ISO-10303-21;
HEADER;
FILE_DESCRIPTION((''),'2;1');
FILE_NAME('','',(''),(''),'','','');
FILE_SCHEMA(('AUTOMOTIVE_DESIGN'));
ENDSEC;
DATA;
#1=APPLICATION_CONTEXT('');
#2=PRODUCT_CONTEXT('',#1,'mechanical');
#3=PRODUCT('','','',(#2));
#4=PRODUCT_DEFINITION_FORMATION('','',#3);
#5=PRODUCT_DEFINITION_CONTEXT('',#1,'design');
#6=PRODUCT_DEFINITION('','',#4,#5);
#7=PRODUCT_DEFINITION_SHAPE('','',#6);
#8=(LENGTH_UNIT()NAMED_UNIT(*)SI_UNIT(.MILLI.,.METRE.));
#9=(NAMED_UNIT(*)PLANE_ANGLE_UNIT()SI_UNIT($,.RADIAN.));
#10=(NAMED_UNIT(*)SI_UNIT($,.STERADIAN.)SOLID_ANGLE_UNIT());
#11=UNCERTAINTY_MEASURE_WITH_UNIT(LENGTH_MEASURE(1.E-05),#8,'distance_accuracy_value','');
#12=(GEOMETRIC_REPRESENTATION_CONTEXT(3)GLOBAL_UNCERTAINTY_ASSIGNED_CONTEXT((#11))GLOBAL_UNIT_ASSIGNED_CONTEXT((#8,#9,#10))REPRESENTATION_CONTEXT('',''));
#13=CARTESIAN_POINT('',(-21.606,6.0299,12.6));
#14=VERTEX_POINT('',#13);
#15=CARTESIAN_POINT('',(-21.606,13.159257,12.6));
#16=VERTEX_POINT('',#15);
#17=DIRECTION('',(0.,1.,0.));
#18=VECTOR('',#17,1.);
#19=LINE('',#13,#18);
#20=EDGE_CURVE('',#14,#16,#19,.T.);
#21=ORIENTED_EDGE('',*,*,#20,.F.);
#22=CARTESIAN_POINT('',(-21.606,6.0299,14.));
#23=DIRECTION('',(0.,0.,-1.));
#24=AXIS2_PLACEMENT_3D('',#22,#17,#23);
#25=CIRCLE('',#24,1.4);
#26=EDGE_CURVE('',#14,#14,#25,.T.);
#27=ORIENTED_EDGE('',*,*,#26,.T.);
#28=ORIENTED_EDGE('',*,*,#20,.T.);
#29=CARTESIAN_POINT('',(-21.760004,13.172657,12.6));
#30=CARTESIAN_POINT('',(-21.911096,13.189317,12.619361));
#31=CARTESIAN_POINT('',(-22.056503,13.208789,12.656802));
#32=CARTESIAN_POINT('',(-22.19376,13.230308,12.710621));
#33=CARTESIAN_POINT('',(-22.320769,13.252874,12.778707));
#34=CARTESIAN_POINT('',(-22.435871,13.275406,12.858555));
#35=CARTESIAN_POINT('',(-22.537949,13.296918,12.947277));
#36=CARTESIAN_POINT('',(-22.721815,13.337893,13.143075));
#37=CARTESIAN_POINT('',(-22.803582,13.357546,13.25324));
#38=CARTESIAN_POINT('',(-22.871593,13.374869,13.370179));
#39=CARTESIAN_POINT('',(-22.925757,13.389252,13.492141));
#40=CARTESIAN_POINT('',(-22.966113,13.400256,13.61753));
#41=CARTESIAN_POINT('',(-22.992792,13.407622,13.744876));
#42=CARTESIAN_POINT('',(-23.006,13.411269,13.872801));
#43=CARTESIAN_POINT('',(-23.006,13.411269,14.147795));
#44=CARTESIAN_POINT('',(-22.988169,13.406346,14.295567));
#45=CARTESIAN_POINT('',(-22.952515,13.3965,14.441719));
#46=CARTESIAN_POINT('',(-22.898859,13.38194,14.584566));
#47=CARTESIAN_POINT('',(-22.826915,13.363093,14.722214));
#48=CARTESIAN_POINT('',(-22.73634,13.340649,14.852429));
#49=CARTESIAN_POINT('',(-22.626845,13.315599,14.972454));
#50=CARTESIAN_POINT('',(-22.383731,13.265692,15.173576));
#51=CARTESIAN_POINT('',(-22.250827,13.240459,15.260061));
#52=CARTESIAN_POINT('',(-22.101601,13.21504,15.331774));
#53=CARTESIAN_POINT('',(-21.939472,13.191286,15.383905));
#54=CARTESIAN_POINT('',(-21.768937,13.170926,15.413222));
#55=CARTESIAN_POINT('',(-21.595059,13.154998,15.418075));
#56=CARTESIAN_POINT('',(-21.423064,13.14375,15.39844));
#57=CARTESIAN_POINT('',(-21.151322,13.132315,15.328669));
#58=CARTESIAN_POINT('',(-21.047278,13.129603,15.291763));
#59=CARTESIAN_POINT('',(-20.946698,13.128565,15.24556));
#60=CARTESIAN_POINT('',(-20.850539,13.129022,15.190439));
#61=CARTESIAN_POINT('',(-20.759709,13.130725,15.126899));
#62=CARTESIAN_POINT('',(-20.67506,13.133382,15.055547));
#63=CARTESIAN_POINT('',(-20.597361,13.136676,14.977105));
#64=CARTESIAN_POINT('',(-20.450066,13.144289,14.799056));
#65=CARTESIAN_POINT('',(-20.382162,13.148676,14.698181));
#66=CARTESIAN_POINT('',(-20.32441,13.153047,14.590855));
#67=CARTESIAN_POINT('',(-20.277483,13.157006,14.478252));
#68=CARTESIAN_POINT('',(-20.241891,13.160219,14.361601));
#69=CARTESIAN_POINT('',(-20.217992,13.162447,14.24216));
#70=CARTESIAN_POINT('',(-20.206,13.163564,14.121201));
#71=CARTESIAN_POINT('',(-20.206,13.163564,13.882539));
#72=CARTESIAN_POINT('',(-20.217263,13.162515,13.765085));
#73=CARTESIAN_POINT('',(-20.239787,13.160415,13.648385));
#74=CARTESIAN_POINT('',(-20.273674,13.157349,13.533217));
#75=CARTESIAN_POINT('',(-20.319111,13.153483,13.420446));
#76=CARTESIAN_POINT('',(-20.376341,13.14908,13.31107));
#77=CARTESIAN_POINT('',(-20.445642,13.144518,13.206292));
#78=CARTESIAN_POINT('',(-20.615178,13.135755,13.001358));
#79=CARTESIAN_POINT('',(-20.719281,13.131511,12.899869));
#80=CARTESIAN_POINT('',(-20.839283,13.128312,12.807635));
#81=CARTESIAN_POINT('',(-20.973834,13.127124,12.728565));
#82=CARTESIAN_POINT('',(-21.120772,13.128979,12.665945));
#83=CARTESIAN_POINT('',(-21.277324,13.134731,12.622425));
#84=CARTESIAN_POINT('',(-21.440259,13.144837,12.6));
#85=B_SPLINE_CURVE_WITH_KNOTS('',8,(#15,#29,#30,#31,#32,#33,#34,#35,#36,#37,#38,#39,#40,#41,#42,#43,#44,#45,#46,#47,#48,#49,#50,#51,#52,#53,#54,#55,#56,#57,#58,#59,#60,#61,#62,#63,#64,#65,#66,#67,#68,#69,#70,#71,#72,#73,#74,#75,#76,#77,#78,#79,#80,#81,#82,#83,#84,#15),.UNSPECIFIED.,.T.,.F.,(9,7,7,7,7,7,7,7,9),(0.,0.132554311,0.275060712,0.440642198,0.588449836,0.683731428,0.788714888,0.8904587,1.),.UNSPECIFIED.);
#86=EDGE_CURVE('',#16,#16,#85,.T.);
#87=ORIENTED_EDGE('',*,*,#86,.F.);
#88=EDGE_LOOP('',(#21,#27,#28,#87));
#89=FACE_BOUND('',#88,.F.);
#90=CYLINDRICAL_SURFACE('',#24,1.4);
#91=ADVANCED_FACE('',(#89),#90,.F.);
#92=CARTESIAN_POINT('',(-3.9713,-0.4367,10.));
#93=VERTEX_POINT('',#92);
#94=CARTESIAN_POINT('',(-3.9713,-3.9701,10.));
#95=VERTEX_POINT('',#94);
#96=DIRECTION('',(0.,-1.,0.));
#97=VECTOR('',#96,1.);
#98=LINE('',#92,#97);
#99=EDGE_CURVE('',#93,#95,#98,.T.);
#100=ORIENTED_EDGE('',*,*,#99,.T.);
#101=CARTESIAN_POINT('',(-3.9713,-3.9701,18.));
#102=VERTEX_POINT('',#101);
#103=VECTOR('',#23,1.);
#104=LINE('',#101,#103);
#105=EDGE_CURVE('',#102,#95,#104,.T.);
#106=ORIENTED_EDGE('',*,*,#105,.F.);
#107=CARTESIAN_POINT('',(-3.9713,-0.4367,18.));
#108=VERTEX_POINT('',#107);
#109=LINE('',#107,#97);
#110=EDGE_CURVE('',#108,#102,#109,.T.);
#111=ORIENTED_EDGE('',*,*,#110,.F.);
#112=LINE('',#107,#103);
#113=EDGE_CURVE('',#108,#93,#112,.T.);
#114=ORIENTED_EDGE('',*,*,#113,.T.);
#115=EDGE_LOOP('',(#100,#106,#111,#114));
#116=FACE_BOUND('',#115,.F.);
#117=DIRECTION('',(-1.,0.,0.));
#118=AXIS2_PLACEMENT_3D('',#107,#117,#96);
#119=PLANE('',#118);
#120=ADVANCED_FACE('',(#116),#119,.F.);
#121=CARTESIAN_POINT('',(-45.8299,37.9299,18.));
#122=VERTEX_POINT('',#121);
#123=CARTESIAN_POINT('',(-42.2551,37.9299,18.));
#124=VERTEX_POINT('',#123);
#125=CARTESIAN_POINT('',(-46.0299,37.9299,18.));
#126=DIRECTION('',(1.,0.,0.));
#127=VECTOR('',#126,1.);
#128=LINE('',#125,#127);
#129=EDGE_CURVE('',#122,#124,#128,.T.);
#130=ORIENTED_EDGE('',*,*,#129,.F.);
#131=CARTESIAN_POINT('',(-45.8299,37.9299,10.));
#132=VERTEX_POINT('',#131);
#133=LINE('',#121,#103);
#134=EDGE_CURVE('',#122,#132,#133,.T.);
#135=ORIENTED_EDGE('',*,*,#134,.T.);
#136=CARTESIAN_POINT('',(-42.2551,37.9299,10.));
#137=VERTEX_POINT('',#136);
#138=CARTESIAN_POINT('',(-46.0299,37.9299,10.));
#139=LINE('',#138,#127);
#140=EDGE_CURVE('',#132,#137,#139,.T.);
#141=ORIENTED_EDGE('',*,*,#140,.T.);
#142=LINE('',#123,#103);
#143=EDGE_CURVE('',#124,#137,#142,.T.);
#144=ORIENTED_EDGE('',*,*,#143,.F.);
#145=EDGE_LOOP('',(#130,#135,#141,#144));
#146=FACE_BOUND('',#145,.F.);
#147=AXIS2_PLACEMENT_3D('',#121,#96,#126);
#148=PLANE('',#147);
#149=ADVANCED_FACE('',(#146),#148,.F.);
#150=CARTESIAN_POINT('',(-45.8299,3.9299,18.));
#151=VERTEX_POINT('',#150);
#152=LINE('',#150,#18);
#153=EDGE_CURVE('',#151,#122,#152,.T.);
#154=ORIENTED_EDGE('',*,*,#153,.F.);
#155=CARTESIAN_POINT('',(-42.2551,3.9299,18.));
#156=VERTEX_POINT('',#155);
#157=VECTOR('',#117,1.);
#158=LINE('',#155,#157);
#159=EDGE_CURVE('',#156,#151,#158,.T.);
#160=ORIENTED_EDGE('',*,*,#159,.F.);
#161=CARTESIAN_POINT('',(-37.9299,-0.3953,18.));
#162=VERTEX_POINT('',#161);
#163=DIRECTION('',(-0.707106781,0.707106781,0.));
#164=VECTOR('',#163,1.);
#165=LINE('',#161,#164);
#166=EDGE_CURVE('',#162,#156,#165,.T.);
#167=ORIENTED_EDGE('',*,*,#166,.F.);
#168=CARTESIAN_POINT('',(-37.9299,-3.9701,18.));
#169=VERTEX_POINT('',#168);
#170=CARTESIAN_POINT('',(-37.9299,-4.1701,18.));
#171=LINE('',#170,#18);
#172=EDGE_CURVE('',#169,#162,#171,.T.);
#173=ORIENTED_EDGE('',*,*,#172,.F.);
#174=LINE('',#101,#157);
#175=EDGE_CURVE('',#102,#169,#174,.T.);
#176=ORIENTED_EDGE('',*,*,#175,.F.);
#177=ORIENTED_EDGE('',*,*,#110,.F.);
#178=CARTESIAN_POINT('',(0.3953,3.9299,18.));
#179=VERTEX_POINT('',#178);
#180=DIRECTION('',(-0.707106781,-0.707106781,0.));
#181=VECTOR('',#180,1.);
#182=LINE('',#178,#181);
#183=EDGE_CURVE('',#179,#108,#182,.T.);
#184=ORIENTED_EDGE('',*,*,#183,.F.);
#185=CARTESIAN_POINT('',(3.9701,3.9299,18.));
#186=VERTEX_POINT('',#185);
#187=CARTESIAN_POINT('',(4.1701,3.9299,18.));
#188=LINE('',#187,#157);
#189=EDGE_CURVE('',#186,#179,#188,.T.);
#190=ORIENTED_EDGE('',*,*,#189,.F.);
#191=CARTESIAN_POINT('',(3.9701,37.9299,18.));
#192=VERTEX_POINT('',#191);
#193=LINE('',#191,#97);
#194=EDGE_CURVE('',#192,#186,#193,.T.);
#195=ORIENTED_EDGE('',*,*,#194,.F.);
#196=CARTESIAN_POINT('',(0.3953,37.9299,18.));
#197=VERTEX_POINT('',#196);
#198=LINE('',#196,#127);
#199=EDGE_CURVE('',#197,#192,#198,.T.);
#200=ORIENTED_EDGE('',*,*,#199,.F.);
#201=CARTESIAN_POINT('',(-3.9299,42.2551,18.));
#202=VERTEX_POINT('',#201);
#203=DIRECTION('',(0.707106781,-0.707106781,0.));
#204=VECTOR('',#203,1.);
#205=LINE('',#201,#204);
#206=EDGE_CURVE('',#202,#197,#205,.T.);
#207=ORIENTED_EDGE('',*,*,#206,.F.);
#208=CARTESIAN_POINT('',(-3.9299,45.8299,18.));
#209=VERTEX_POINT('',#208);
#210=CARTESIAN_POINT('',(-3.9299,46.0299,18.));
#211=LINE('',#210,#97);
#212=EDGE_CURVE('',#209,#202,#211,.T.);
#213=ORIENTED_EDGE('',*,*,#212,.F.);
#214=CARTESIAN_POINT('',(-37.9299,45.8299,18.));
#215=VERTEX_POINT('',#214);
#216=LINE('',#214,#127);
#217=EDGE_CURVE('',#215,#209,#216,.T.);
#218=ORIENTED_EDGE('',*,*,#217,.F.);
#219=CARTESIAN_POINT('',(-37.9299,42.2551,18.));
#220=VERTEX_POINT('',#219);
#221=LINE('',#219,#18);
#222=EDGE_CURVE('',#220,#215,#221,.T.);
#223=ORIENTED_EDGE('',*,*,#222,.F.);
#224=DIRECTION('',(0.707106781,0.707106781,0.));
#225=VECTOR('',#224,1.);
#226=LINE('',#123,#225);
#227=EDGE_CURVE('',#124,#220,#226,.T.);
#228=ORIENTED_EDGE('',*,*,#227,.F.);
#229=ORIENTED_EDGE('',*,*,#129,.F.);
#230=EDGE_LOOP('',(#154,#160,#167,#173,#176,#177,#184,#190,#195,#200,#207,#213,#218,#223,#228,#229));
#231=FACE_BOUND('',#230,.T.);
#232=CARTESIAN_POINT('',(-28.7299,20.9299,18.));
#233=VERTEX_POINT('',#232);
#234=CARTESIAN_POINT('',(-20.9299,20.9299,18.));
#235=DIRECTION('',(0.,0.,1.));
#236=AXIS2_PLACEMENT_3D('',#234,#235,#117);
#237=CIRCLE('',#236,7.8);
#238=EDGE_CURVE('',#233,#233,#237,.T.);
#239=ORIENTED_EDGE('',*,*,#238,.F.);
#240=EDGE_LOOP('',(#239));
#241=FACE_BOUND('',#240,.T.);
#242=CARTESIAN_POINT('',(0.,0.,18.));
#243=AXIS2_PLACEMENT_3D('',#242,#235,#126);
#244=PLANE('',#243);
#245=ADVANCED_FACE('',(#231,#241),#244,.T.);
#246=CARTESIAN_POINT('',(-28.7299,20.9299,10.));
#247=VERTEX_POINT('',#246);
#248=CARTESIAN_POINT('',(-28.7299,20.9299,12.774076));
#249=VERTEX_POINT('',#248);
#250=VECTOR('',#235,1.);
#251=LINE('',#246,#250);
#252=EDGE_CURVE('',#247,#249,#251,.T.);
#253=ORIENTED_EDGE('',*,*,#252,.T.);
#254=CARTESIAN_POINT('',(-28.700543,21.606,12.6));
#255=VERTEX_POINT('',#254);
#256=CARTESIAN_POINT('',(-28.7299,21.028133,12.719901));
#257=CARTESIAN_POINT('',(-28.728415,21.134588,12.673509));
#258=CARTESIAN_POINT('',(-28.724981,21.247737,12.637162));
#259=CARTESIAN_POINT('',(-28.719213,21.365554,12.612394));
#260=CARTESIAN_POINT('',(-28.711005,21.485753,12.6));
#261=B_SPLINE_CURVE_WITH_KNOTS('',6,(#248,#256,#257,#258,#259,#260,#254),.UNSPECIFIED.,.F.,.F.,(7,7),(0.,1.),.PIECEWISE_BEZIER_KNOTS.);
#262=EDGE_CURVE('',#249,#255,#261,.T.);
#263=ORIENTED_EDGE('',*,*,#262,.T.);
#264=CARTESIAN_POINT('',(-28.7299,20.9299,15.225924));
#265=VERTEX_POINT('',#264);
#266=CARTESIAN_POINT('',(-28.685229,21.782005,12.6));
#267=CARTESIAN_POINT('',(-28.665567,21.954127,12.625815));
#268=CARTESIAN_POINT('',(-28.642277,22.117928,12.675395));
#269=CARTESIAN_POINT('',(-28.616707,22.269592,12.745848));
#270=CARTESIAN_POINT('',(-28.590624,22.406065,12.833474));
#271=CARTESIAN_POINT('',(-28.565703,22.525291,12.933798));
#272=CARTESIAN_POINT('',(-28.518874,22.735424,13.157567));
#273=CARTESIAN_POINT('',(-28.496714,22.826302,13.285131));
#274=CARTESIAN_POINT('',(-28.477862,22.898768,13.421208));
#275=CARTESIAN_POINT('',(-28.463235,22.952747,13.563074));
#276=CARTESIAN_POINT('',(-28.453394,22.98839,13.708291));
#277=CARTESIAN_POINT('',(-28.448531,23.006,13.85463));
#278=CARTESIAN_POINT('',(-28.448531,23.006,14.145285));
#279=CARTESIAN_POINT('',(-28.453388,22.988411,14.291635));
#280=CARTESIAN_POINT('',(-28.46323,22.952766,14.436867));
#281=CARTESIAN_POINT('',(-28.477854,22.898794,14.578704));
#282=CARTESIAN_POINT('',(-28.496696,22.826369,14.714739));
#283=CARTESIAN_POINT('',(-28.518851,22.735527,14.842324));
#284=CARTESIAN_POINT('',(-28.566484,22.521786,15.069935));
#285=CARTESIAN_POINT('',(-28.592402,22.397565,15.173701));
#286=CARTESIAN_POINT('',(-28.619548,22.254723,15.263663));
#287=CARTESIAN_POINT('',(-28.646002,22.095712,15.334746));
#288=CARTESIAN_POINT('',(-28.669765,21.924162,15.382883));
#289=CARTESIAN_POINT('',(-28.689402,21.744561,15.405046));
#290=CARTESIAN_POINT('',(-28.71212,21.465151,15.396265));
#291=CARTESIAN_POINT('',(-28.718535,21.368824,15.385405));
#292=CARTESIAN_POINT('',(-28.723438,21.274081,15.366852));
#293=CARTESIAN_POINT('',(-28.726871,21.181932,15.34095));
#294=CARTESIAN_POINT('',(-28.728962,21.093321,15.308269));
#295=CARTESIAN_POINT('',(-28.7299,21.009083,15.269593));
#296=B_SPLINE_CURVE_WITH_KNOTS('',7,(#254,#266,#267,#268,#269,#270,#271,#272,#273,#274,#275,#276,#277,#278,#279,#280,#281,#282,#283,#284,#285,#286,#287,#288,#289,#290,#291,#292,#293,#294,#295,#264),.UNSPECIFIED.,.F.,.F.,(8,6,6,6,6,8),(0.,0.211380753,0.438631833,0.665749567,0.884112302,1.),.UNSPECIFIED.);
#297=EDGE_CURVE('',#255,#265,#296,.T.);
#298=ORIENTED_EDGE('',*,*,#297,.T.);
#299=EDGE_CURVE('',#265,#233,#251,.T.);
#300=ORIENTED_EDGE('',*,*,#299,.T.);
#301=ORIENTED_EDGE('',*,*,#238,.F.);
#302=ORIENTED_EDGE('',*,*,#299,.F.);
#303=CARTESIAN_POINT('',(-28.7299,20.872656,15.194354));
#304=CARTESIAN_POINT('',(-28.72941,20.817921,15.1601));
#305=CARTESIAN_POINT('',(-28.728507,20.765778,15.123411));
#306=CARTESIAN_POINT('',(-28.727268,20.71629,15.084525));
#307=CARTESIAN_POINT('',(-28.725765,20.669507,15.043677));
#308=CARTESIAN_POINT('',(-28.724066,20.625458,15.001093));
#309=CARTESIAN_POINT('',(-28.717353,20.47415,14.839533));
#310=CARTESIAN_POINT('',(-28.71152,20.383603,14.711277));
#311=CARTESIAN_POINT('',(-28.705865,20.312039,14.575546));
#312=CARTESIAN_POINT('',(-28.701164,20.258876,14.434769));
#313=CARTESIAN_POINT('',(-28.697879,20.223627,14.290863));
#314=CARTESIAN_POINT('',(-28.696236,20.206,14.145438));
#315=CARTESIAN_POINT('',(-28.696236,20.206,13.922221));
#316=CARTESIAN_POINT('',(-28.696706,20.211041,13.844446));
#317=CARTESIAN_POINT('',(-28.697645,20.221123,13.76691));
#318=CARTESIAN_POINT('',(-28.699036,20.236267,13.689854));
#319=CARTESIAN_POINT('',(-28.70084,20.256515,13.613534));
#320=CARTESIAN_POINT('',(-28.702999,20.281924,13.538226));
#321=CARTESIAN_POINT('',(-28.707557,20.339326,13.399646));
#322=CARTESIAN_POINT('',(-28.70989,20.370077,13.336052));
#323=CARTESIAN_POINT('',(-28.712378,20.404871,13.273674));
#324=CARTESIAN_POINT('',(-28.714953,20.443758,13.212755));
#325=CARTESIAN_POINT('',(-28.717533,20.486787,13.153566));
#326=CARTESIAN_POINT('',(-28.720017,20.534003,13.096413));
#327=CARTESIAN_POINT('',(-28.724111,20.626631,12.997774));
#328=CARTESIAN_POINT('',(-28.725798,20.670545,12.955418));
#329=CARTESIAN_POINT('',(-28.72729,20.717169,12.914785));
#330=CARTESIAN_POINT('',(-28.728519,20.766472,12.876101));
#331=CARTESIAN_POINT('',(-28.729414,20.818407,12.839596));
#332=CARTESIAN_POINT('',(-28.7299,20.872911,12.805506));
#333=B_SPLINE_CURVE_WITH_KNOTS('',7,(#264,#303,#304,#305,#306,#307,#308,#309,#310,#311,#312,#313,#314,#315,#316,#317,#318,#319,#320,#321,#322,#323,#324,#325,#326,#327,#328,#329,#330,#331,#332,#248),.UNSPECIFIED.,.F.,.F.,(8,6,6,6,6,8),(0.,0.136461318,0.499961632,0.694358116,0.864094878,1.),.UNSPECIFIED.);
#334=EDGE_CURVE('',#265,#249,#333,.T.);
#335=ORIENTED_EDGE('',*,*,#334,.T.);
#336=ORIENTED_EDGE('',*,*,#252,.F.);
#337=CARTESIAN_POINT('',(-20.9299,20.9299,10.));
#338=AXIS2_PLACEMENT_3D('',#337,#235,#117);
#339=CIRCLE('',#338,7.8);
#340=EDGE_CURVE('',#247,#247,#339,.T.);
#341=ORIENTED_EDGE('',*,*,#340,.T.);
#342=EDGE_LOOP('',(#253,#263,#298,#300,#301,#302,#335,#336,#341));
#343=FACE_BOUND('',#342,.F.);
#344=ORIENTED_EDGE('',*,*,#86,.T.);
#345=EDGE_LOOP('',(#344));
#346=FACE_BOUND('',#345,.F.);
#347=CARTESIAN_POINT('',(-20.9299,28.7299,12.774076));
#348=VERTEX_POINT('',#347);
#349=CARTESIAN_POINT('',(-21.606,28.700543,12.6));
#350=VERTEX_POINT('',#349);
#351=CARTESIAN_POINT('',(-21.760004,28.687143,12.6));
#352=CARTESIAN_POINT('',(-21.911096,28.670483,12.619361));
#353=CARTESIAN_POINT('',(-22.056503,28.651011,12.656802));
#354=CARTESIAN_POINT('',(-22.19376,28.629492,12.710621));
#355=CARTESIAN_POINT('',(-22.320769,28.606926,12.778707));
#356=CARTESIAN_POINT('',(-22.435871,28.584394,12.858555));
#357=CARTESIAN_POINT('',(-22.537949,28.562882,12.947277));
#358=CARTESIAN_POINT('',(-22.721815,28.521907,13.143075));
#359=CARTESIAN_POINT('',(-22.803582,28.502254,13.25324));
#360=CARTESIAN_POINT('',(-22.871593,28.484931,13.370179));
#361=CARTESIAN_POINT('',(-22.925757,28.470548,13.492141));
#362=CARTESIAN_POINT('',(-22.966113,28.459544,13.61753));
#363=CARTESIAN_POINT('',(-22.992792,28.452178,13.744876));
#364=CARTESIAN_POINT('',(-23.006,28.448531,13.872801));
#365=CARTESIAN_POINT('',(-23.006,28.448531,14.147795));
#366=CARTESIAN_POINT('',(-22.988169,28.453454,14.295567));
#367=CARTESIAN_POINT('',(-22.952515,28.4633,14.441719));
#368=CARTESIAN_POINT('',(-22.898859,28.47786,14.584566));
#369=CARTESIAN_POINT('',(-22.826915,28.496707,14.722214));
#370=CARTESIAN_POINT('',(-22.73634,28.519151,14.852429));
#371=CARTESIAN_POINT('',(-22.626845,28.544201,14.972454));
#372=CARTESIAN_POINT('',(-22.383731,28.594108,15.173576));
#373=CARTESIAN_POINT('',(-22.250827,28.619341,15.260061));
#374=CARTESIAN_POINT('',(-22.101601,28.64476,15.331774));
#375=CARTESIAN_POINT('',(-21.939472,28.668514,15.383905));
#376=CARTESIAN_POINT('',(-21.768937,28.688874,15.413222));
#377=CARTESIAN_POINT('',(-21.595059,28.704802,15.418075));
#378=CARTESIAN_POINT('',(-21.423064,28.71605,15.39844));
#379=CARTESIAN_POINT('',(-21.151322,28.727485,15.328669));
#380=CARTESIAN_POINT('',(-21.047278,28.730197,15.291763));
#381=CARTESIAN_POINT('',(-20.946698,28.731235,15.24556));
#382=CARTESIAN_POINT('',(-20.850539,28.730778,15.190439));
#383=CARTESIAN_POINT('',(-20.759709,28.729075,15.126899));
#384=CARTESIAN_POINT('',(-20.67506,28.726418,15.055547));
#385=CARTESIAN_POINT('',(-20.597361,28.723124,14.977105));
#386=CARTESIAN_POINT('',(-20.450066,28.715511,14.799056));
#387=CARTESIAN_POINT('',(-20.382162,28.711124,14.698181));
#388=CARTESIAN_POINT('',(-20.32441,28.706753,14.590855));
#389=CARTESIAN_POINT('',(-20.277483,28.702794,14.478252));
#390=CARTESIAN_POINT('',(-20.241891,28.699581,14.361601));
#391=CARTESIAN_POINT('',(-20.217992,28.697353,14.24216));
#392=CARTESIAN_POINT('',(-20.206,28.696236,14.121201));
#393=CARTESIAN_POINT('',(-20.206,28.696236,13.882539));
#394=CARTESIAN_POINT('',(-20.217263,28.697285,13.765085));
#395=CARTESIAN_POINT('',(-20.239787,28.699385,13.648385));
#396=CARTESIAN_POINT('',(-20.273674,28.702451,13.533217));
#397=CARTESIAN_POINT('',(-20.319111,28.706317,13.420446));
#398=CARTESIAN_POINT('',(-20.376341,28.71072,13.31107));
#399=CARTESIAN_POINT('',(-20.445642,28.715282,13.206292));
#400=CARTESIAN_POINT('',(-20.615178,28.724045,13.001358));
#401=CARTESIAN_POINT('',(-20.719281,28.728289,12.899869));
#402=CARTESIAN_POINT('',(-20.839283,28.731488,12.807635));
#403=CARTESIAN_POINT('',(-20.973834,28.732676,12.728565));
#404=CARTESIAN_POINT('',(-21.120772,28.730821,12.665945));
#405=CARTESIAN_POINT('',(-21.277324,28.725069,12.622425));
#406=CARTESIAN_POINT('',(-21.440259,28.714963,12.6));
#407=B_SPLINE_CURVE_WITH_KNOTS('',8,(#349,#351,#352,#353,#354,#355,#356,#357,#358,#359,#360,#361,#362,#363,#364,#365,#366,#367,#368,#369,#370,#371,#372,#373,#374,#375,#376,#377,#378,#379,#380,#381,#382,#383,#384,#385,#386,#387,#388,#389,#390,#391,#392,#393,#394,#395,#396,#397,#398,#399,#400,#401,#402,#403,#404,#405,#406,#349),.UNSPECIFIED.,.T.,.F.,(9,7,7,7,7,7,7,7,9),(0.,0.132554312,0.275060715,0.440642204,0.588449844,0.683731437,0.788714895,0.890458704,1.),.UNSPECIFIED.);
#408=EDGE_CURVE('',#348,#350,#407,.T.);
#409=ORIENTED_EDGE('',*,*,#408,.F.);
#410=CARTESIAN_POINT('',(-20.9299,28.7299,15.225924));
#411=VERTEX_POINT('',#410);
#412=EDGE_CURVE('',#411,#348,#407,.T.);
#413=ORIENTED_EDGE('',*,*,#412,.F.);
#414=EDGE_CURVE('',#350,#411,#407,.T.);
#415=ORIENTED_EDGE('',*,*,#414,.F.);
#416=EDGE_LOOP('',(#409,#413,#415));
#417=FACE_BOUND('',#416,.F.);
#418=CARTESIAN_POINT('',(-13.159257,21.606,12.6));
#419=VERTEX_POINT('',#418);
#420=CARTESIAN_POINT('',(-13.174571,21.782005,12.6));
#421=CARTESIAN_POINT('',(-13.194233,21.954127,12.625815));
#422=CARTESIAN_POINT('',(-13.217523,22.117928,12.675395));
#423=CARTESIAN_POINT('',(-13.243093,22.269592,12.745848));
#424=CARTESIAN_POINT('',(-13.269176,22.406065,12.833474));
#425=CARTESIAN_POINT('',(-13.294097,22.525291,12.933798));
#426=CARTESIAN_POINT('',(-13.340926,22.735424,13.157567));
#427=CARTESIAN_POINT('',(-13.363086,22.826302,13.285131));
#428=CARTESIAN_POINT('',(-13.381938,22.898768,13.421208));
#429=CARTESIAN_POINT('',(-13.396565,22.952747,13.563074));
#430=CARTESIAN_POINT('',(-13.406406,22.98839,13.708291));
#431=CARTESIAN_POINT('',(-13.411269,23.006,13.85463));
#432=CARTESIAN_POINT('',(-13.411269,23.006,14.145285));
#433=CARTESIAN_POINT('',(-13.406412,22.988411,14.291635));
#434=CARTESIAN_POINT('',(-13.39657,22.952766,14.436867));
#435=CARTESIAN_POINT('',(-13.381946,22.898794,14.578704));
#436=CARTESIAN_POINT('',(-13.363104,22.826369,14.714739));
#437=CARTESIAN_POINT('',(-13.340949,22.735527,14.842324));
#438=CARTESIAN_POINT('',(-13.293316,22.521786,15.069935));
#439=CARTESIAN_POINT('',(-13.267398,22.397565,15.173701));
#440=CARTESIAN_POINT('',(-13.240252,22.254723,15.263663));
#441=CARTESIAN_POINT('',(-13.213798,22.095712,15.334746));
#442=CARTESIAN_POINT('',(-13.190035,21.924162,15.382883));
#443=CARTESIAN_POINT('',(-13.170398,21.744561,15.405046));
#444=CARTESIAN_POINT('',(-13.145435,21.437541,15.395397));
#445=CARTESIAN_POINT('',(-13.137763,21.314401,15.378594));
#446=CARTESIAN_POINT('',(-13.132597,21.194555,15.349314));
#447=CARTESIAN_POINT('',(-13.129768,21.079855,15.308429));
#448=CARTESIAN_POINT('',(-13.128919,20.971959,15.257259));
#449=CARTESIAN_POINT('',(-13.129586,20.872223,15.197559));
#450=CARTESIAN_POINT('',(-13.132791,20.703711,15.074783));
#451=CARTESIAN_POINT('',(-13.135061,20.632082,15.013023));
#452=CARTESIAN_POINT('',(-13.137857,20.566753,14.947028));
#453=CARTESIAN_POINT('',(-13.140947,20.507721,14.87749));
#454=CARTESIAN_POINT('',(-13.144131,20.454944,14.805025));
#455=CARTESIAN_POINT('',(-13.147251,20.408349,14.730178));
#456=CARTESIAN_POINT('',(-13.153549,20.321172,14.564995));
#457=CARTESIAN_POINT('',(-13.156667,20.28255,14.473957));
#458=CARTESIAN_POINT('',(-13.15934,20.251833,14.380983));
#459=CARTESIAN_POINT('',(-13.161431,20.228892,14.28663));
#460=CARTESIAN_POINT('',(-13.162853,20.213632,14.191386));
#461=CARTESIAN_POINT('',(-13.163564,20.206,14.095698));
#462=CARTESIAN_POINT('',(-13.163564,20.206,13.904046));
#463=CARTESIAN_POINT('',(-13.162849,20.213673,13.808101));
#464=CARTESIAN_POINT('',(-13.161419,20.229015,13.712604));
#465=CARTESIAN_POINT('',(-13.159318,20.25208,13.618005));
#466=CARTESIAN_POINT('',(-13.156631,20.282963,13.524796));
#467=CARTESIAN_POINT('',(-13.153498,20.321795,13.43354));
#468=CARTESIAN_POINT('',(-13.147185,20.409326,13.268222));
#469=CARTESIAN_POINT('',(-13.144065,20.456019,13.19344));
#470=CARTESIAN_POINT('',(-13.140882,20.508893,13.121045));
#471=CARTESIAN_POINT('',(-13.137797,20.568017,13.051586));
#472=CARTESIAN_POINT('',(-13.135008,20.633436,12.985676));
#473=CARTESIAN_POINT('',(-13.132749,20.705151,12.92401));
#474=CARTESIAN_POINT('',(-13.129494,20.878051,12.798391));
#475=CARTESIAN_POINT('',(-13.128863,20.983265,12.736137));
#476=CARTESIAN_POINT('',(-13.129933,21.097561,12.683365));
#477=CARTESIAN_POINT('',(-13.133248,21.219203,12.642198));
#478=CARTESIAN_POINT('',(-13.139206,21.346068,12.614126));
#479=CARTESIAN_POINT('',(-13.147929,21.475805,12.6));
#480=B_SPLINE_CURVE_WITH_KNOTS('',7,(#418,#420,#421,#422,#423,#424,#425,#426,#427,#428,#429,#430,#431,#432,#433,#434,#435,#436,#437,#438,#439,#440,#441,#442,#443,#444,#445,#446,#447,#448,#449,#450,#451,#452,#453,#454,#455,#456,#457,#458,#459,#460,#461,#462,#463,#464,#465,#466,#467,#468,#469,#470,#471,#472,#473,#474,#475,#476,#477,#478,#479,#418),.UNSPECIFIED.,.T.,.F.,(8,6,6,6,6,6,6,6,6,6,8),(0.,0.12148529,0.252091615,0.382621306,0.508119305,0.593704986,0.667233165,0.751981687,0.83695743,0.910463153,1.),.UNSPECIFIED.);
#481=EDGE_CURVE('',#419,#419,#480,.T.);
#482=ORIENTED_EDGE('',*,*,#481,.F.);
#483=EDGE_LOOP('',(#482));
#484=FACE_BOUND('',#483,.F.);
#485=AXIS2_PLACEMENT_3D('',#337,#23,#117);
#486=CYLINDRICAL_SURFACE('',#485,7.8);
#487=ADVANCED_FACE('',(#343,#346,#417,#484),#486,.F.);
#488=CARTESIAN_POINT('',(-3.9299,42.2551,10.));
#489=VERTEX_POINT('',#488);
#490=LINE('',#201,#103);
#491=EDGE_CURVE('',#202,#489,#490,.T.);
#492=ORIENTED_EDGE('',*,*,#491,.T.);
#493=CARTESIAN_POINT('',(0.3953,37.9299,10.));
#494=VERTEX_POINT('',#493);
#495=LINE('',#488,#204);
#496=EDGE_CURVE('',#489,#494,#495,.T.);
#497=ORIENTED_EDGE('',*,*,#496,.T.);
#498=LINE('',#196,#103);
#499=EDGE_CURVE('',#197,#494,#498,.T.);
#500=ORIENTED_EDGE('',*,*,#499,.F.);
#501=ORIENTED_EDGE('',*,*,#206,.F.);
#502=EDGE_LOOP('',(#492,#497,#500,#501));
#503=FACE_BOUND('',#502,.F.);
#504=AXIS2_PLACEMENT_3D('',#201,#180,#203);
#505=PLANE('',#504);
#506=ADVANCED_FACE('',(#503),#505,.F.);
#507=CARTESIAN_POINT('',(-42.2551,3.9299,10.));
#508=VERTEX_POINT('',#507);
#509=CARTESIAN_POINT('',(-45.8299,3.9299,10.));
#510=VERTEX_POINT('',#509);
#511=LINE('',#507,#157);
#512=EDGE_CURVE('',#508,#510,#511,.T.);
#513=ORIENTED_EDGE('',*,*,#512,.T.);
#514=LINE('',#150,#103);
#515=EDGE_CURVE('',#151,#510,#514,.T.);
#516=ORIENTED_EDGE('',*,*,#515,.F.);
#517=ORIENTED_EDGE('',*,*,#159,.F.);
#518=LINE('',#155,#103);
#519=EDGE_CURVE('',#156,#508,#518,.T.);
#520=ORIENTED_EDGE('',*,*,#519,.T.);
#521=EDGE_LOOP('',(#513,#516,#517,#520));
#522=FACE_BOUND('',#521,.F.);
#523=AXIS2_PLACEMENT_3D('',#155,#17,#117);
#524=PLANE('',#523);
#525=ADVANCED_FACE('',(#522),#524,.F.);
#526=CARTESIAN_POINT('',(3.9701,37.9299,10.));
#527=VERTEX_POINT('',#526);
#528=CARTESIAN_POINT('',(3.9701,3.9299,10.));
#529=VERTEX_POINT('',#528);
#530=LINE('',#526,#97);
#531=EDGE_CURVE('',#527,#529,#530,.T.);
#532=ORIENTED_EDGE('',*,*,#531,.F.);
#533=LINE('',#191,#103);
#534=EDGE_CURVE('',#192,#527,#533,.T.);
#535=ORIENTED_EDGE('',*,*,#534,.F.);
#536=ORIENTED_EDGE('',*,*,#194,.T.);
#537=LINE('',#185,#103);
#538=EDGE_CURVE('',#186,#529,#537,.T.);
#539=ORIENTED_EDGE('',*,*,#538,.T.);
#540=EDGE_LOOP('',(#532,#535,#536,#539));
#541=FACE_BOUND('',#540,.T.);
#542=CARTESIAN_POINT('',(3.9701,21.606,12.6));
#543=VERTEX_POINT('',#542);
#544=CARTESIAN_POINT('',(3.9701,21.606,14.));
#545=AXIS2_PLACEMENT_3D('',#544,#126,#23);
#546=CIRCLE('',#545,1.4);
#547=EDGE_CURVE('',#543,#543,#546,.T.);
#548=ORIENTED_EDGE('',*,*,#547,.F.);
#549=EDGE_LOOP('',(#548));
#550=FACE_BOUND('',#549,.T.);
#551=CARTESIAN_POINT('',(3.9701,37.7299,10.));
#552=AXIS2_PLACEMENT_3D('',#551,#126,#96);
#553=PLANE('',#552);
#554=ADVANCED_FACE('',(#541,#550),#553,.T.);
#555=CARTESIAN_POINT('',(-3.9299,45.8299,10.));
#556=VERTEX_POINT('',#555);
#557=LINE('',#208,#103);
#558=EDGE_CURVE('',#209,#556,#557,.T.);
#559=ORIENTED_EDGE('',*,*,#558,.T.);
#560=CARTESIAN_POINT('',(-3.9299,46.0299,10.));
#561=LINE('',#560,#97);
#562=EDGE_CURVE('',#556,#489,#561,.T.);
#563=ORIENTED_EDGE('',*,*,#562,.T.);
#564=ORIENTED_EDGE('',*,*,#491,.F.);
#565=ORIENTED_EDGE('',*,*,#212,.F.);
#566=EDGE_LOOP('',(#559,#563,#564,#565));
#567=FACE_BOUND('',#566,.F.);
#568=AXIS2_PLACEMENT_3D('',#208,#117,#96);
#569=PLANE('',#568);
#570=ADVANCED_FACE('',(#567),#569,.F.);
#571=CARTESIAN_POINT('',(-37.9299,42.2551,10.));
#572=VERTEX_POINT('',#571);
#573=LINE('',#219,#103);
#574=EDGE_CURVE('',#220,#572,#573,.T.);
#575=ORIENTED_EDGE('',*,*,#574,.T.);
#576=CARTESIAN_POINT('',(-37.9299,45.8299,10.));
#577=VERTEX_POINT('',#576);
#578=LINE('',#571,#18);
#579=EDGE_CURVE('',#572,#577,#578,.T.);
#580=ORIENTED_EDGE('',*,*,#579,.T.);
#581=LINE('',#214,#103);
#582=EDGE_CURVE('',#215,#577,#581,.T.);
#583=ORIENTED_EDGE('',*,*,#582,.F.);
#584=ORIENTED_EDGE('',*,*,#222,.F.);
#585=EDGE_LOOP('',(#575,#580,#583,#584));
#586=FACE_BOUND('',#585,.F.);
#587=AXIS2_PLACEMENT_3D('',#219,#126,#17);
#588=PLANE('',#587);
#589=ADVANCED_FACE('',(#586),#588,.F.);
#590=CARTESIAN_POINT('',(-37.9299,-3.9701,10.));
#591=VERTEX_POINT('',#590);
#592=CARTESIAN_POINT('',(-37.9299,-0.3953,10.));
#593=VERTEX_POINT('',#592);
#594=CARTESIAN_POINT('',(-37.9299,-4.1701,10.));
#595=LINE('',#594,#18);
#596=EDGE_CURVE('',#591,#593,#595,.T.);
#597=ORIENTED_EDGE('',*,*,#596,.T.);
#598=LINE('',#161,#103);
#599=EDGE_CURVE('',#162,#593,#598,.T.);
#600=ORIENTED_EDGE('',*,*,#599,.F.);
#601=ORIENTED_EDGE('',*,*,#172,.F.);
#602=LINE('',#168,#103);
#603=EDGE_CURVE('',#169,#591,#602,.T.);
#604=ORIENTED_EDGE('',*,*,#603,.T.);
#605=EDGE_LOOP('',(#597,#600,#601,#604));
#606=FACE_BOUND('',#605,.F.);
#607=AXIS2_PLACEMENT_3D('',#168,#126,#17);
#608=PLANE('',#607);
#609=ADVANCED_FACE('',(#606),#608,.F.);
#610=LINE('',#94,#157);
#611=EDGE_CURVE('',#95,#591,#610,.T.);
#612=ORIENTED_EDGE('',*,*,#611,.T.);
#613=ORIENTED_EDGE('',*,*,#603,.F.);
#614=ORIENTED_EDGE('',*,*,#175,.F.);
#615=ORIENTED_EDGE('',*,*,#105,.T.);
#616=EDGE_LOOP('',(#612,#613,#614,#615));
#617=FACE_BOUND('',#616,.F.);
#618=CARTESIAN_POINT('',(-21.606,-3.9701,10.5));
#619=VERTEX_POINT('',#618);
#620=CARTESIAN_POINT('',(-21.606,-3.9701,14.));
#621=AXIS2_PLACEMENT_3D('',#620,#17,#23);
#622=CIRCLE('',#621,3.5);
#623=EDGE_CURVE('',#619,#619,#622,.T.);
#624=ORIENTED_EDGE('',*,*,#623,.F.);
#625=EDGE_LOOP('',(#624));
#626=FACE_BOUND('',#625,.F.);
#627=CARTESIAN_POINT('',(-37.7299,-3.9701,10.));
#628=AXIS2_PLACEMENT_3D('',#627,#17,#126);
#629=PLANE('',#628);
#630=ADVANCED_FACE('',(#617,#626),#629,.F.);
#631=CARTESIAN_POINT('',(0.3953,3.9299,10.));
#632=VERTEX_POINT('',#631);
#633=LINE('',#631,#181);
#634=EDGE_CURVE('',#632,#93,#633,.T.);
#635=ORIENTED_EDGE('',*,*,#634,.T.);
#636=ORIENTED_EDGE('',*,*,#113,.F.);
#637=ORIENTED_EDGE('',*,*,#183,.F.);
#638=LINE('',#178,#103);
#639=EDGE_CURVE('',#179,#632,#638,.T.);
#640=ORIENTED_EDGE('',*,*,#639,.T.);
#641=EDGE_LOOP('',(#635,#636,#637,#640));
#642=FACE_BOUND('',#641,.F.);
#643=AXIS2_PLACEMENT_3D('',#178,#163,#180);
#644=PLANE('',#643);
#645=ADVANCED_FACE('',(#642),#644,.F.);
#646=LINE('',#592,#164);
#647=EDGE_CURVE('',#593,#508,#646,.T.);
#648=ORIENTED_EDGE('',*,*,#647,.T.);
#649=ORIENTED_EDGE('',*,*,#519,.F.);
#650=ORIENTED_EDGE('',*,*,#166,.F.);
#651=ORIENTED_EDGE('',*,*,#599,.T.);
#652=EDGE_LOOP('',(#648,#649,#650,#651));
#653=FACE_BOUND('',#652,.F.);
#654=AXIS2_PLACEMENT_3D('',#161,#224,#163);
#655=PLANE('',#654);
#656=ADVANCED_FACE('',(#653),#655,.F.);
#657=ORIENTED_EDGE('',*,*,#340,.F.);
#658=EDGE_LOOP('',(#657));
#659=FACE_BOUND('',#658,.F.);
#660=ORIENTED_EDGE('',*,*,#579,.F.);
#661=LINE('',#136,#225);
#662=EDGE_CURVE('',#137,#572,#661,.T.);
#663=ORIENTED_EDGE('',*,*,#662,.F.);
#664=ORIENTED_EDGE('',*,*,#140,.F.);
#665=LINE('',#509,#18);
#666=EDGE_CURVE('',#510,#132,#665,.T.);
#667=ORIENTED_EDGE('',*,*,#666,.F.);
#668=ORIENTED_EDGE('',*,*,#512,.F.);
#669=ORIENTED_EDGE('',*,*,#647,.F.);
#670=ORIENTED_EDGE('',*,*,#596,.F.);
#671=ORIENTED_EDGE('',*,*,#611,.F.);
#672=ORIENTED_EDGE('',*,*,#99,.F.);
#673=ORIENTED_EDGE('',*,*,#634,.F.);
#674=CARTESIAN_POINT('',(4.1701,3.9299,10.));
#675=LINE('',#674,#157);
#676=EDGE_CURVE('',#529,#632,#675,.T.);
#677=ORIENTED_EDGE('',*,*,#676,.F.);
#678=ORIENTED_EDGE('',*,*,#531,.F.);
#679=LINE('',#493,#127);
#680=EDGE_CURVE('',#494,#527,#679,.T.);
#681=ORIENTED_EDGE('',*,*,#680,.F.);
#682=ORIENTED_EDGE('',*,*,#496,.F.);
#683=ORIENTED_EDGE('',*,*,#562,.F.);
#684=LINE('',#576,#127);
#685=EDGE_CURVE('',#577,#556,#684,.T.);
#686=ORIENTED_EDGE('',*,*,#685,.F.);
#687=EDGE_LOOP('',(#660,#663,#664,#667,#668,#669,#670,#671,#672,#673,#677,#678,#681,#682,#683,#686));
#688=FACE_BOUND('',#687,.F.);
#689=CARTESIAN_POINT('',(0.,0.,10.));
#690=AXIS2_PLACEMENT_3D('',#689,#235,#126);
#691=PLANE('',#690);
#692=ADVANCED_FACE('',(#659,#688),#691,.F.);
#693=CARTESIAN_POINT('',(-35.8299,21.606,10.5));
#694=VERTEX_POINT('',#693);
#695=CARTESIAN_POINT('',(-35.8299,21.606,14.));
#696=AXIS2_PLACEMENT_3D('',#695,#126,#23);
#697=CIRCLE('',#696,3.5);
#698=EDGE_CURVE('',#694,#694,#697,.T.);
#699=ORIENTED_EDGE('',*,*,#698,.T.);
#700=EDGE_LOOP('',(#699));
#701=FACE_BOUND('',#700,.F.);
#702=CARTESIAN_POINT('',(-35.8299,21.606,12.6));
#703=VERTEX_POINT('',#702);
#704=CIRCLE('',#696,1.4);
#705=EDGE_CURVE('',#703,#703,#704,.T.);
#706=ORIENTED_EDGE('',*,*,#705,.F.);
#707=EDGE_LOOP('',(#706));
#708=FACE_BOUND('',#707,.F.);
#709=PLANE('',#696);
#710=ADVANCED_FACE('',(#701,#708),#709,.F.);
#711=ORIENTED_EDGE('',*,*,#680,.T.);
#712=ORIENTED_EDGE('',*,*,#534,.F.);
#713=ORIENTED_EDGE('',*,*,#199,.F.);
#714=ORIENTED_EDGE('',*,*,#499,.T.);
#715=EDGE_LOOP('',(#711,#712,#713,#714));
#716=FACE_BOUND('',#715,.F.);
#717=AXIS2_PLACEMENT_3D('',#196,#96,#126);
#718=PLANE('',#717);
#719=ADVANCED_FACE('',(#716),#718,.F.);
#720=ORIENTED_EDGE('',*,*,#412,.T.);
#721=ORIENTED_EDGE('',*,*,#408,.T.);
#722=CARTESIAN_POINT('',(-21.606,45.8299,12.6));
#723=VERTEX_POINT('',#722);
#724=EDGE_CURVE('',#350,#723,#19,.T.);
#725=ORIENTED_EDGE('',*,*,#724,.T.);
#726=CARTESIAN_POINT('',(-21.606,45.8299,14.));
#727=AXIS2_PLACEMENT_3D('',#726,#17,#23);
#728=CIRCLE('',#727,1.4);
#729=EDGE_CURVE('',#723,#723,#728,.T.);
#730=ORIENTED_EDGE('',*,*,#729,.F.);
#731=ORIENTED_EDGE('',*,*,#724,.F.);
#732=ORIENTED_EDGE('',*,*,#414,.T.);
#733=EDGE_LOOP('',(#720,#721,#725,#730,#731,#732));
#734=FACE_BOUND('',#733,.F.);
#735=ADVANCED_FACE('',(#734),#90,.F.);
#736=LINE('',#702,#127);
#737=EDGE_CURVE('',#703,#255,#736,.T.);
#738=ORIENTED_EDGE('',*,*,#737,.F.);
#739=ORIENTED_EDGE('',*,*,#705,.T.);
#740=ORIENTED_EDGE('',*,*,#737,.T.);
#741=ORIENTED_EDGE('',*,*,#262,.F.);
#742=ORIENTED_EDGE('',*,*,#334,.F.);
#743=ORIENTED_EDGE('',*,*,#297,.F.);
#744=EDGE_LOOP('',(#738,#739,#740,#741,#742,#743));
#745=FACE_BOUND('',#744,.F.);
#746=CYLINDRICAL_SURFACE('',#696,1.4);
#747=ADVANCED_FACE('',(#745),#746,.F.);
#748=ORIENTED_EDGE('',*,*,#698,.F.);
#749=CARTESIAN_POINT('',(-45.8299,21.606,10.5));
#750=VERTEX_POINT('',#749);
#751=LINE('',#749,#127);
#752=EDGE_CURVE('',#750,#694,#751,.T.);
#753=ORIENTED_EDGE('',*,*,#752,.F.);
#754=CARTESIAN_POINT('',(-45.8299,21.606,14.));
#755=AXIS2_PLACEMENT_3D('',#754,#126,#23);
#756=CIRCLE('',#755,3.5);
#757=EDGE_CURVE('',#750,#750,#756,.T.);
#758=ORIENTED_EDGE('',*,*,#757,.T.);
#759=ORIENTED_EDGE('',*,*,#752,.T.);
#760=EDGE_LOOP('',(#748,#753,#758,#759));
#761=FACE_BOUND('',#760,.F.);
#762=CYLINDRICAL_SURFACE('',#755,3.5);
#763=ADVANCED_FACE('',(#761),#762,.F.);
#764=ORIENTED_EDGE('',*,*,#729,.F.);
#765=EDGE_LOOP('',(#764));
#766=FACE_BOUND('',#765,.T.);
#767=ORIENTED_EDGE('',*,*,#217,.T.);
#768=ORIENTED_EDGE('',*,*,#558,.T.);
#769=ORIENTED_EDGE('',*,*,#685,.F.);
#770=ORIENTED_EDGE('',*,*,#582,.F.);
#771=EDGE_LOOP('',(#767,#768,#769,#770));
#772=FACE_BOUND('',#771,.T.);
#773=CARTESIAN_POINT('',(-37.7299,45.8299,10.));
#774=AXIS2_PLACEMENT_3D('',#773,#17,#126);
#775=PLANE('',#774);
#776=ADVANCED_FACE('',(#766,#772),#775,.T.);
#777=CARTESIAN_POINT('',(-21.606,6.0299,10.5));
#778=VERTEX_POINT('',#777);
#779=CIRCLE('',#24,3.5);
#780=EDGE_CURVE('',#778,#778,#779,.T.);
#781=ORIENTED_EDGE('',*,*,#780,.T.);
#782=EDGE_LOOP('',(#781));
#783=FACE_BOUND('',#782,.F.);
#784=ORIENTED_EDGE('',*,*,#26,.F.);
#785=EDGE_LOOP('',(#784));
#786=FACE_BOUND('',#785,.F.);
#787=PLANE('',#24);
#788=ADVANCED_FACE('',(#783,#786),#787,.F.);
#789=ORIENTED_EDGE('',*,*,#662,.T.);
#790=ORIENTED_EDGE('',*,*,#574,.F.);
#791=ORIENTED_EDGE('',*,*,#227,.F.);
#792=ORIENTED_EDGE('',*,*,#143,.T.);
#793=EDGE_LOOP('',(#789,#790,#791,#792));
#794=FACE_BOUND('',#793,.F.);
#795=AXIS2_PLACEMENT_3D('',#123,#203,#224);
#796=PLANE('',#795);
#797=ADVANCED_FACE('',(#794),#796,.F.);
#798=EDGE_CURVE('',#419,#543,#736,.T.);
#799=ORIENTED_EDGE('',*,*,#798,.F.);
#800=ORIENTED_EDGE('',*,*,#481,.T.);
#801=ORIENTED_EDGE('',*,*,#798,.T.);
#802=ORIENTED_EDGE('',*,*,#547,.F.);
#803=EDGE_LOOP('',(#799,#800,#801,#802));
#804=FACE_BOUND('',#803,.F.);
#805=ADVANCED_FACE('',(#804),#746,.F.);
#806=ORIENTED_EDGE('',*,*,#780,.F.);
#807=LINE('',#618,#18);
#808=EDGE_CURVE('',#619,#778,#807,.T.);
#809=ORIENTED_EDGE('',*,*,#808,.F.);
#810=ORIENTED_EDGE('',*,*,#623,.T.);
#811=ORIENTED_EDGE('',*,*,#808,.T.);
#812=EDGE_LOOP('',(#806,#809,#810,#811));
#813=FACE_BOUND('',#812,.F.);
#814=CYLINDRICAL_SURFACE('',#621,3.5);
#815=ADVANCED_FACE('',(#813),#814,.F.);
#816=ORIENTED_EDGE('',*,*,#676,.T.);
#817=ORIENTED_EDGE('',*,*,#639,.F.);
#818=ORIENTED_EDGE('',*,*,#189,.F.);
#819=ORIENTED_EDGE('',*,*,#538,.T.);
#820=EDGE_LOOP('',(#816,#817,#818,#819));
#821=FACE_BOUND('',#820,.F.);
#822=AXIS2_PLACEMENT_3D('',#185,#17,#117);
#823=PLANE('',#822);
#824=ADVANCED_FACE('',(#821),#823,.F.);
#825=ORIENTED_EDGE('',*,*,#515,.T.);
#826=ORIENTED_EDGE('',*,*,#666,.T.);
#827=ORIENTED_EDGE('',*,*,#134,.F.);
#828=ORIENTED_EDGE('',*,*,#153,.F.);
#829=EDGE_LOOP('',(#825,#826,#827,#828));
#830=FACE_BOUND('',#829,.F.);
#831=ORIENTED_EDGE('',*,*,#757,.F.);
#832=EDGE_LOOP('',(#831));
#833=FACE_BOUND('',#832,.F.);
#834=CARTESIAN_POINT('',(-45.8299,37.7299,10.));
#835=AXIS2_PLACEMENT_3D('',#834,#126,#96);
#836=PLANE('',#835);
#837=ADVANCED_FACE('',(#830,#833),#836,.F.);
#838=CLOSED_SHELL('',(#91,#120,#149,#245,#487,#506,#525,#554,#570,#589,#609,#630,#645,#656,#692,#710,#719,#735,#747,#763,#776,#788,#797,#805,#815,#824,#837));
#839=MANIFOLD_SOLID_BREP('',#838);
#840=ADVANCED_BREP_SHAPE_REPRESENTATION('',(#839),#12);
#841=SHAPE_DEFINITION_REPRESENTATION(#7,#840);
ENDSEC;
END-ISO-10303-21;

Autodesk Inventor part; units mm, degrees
ref_plane "YZ Plane" through (0, 0, 0) normal (1, 0, 0) x (0, 1, 0)
ref_plane "XZ Plane" through (0, 0, 0) normal (0, 1, 0) x (-1, 0, 0)
ref_plane "Work Plane1" through (0, 0, 10) normal (0, 0, 1) x (1, 0, 0)
sketch "Sketch1" plane through (0, 0, 10) normal (0, 0, 1) x (1, 0, 0)
  line L0 (-4.0299, -0.3538) -> (-2.2322, 1.4439) construction
  arc A0 (-1.4439, 2.2322) -> (-2.2322, 1.4439) centre (-0.9299, 0.9299) ccw construction
  line L1 (-1.4439, 2.2322) -> (0.3538, 4.0299) construction
  line L2 (-37.8299, 42.8299) -> (-37.8299, 37.8299) construction
  line L3 (-37.8299, 37.8299) -> (-42.9208, 37.8299) construction
  line L4 (-37.8299, 42.2137) -> (-37.8299, 45.8299) construction
  line L5 (-37.8299, 45.8299) -> (-4.0299, 45.8299) construction
  line L6 (-4.0299, 45.8299) -> (-4.0299, 42.2137) construction
  line L7 (-4.0299, 4.0299) -> (0.3538, 4.0299) projected
  circle A1 centre (-20.9299, 20.9299) radius 17.5 projected
  line L8 (-20.9299, 58.9723) -> (17.1124, 20.9299) construction
  line L9 (17.1124, 20.9299) -> (-20.9299, -17.1124) construction
  line L10 (-20.9299, -17.1124) -> (-58.9723, 20.9299) construction
  line L11 (-58.9723, 20.9299) -> (-20.9299, 58.9723) construction
  line L12 (-20.9299, 58.9723) -> (-20.9299, -17.1124) construction
  line L13 (17.1124, 20.9299) -> (-58.9723, 20.9299) construction
  line L14 (-20.9299, 58.9723) -> (32.8701, 58.9723) construction
  line L15 (-43.4299, 43.4299) -> (1.5701, 43.4299) construction
  line L16 (1.5701, 43.4299) -> (1.5701, -1.5701) construction
  line L17 (1.5701, -1.5701) -> (-43.4299, -1.5701) construction
  line L18 (-43.4299, -1.5701) -> (-43.4299, 43.4299) construction
  line L19 (-43.4299, 43.4299) -> (1.5701, -1.5701) construction
  line L20 (1.5701, 43.4299) -> (-43.4299, -1.5701) construction
  line L21 (-43.4299, 5.3876) -> (-43.4299, 36.4723)
  line L22 (-43.4299, 36.4723) -> (-36.4723, 43.4299)
  line L23 (-36.4723, 43.4299) -> (-5.3876, 43.4299)
  line L24 (-5.3876, 43.4299) -> (1.5701, 36.4723)
  line L25 (1.5701, 36.4723) -> (1.5701, 5.3876)
  line L26 (1.5701, 5.3876) -> (-5.3876, -1.5701)
  line L27 (-5.3876, -1.5701) -> (-36.4723, -1.5701)
  line L28 (-36.4723, -1.5701) -> (-43.4299, 5.3876)
  line L29 (-4.0299, 42.2137) -> (-37.8299, 42.2137) projected
  line L30 (-4.0299, -0.3538) -> (-4.0299, 4.0299) projected
  circle A2 centre (-20.9299, 20.9299) radius 1.5
  line L31 (-10.9299, 10.9299) -> (-30.9299, 10.9299) construction
  line L32 (-30.9299, 10.9299) -> (-30.9299, 30.9299) construction
  line L33 (-30.9299, 30.9299) -> (-10.9299, 30.9299) construction
  line L34 (-10.9299, 30.9299) -> (-10.9299, 10.9299) construction
  line L35 (-10.9299, 10.9299) -> (-30.9299, 30.9299) construction
  line L36 (-30.9299, 10.9299) -> (-10.9299, 30.9299) construction
  circle A3 centre (-30.9299, 30.9299) radius 1.4
  circle A4 centre (-30.9299, 10.9299) radius 1.4
  circle A5 centre (-10.9299, 10.9299) radius 1.4
  line L37 (-45.8299, 37.8299) -> (-42.0723, 37.8299) construction
  line L38 (-42.1723, 37.7299) -> (-45.8299, 37.7299)
  line L39 (-45.8299, 37.7299) -> (-45.8299, 4.1299)
  line L40 (-45.8299, 4.1299) -> (-42.1723, 4.1299)
  line L41 (-42.1723, 4.1299) -> (-42.1723, 37.7299)
  line L42 (-45.8299, 4.0299) -> (-42.0723, 4.0299) construction
  line L43 (-45.8299, 37.8299) -> (-42.0723, 37.8299) projected
  line L44 (-37.7299, 45.8299) -> (-4.1299, 45.8299)
  line L45 (-4.1299, 45.8299) -> (-4.1299, 42.1723)
  line L46 (-4.1299, 42.1723) -> (-37.7299, 42.1723)
  line L47 (-37.7299, 42.1723) -> (-37.7299, 45.8299)
  line L48 (0.4701, 37.8299) -> (0.4701, 4.0299) construction
  line L49 (0.4701, 4.0299) -> (3.9701, 4.0299) construction
  line L50 (3.9701, 37.8299) -> (3.9701, 4.0299) construction
  line L51 (0.4701, 37.8299) -> (3.9701, 37.8299) construction
  line L52 (-45.8299, -3.9701) -> (-4.0299, -3.9701) construction
  line L53 (0.3124, 37.7299) -> (3.9701, 37.7299)
  line L54 (3.9701, 37.7299) -> (3.9701, 4.1299)
  line L55 (3.9701, 4.1299) -> (0.3124, 4.1299)
  line L56 (0.3124, 4.1299) -> (0.3124, 37.7299)
  line L57 (-4.1713, -0.3538) -> (-37.7299, -0.3538)
  line L58 (-37.7299, -0.3538) -> (-37.7299, -3.9701)
  line L59 (-37.7299, -3.9701) -> (-4.1713, -3.9701)
  line L60 (-4.1713, -3.9701) -> (-4.1713, -0.3538)
  point P0 (-37.8299, 4.0299)
  dimension "d18" = 53.8
  dimension "d19" = 45
  dimension "d20" = 53.8
  dimension "d21" = 45
  dimension "d22" = 45
  dimension "d30" = 20
  dimension "d31" = 20
  dimension "d32" = 2.8
  dimension "d33" = 2.8
  dimension "d34" = 2.8
  dimension "d35" = 3
  dimension "d36" = 0.1
  dimension "d37" = 0.1
  dimension "d38" = 0.1
  dimension "d39" = 0.1
extrude "Extrusion1" add sketch "Sketch1" along normal blind 8 contours L30 L26 L57 L28 L41 L22 L46 L24 L56 L7 | L7 L26 L30 | L56 L24 L25 L26 | L26 L25 L24 L53 L54 L55 | L60 L59 L58 L57 L28 L27 L26 | L26 L27 L28 L57 | L46 L22 L29 L24 | L24 L29 L45 | L40 L39 L38 L22 L21 L28 | L28 L21 L22 L41 | L29 L22 L23 L24 | L24 L23 L22 L29 L47 L44 L45 | L47 L29 L22 | A1 | A2 | A3 | A4 | A5
sketch "Skizze4" plane through (0, 0, 18) normal (0, 0, 1) x (1, 0, 0)
  line L0 (-37.7299, 42.1723) -> (-42.1723, 37.7299) projected
  line L1 (-42.1723, 37.7299) -> (-45.8299, 37.7299) projected
  line L2 (-45.8299, 37.7299) -> (-45.8299, 4.1299) construction
  line L3 (-45.8299, 4.1299) -> (-42.1723, 4.1299) projected
  line L4 (-42.1723, 4.1299) -> (-37.6885, -0.3538) projected
  line L5 (-37.6885, -0.3538) -> (-37.7299, -0.3538) projected
  line L6 (-37.7299, -0.3538) -> (-37.7299, -3.9701) projected
  line L7 (-37.7299, -3.9701) -> (-4.1713, -3.9701) construction
  line L8 (-4.1713, -3.9701) -> (-4.1713, -0.3538) projected
  line L9 (-4.1713, -0.3538) -> (0.3124, 4.1299) projected
  line L10 (0.3124, 4.1299) -> (3.9701, 4.1299) projected
  line L11 (3.9701, 4.1299) -> (3.9701, 37.7299) construction
  line L12 (3.9701, 37.7299) -> (0.3124, 37.7299) projected
  line L13 (0.3124, 37.7299) -> (-4.1299, 42.1723) projected
  line L14 (-4.1299, 42.1723) -> (-4.1299, 45.8299) projected
  line L15 (-4.1299, 45.8299) -> (-37.7299, 45.8299) construction
  line L16 (-37.7299, 45.8299) -> (-37.7299, 42.1723) projected
  line L17 (-37.9299, 46.0299) -> (-3.9299, 46.0299) construction
  line L18 (-3.9299, 46.0299) -> (-3.9299, 42.2551)
  line L19 (-3.9299, 42.2551) -> (0.3953, 37.9299)
  line L20 (0.3953, 37.9299) -> (4.1701, 37.9299)
  line L21 (4.1701, 37.9299) -> (4.1701, 3.9299) construction
  line L22 (4.1701, 3.9299) -> (0.3953, 3.9299)
  line L23 (0.3953, 3.9299) -> (-3.9713, -0.4367)
  line L24 (-3.9713, -0.4367) -> (-3.9713, -4.1701)
  line L25 (-3.9713, -4.1701) -> (-37.9299, -4.1701) construction
  line L26 (-37.9299, -4.1701) -> (-37.9299, -0.3953)
  line L27 (-37.9299, -0.3953) -> (-42.2551, 3.9299)
  line L28 (-42.2551, 3.9299) -> (-46.0299, 3.9299)
  line L29 (-46.0299, 3.9299) -> (-46.0299, 37.9299) construction
  line L30 (-46.0299, 37.9299) -> (-42.2551, 37.9299)
  line L31 (-42.2551, 37.9299) -> (-37.9299, 42.2551)
  line L32 (-37.9299, 42.2551) -> (-37.9299, 46.0299)
  line L33 (-45.8299, 37.7299) -> (-45.8299, 37.9299)
  line L34 (-4.1299, 45.8299) -> (-37.7299, 45.8299) projected
  line L35 (-37.7299, 45.8299) -> (-37.9299, 45.8299)
  line L36 (-4.1299, 45.8299) -> (-3.9299, 45.8299)
  line L37 (3.9701, 37.7299) -> (3.9701, 37.9299)
  line L38 (3.9701, 4.1299) -> (3.9701, 37.7299) projected
  line L39 (3.9701, 4.1299) -> (3.9701, 3.9299)
  line L40 (-4.1713, -3.9701) -> (-3.9713, -3.9701)
  line L41 (-37.7299, -3.9701) -> (-37.9299, -3.9701)
  line L42 (-45.8299, 4.1299) -> (-45.8299, 3.9299)
  point P0 (0, 0)
  dimension "d40" = 0.2
extrude "IM_offset" add sketch "Skizze4" against normal up to surface (8 mm away)
sketch "Sketch25" plane through (0, 0, 10) normal (0, 0, -1) x (-1, 0, 0)
  circle A0 centre (20.9299, 20.9299) radius 7.8
  line L0 (3.9713, -3.9701) -> (37.9299, -3.9701) projected
  line L1 (37.9299, -3.9701) -> (37.9299, -0.3953) projected
  line L2 (37.9299, -0.3953) -> (42.2551, 3.9299) projected
  line L3 (42.2551, 3.9299) -> (45.8299, 3.9299) projected
  line L4 (45.8299, 3.9299) -> (45.8299, 37.9299) projected
  line L5 (45.8299, 37.9299) -> (42.2551, 37.9299) projected
  line L6 (42.2551, 37.9299) -> (37.9299, 42.2551) projected
  line L7 (37.9299, 42.2551) -> (37.9299, 45.8299) projected
  line L8 (37.9299, 45.8299) -> (3.9299, 45.8299) projected
  line L9 (3.9299, 45.8299) -> (3.9299, 42.2551) projected
  line L10 (3.9299, 42.2551) -> (-0.3953, 37.9299) projected
  line L11 (-0.3953, 37.9299) -> (-3.9701, 37.9299) projected
  line L12 (-3.9701, 37.9299) -> (-3.9701, 3.9299) projected
  line L13 (-3.9701, 3.9299) -> (-0.3953, 3.9299) projected
  line L14 (-0.3953, 3.9299) -> (3.9713, -0.4367) projected
  line L15 (3.9713, -0.4367) -> (3.9713, -3.9701) projected
  circle A1 centre (20.9299, 20.9299) radius 24.9
  point P0 (0, 0)
  dimension "d167" = 15.6
extrude "Extrusion21" cut sketch "Sketch25" against normal through all contours A0
sketch "Sketch26" plane through (-37.9299, -3.9701, 10) normal (0, -1, 0) x (1, 0, 0)
  line L0 (8.25, 4.8) -> (8.25, 11.5)
  line L1 (10.75, 4.8) -> (10.75, 11.5)
  circle A0 centre (16.3239, 4) radius 1.4
  line L2 (33.9586, 8) -> (0, 8) projected
  point P0 (37.9299, -10)
  dimension "d155" = 2.8
  dimension "d156" = 4
hole "Hole1" at (-21.606, -3.9701, 14) direction (0, 1, 0) diameter 2.8 end through all counterbore diameter 7 counterbore depth 10
pattern_circular "Circular Pattern1" count 2 over 90 about axis through (-20.9299, 20.9299, 10) along (0, 0, -1) of "Hole1", "Extrusion21"
properties part number "20_Cube_Insert_Fiber_STMount_Center"
